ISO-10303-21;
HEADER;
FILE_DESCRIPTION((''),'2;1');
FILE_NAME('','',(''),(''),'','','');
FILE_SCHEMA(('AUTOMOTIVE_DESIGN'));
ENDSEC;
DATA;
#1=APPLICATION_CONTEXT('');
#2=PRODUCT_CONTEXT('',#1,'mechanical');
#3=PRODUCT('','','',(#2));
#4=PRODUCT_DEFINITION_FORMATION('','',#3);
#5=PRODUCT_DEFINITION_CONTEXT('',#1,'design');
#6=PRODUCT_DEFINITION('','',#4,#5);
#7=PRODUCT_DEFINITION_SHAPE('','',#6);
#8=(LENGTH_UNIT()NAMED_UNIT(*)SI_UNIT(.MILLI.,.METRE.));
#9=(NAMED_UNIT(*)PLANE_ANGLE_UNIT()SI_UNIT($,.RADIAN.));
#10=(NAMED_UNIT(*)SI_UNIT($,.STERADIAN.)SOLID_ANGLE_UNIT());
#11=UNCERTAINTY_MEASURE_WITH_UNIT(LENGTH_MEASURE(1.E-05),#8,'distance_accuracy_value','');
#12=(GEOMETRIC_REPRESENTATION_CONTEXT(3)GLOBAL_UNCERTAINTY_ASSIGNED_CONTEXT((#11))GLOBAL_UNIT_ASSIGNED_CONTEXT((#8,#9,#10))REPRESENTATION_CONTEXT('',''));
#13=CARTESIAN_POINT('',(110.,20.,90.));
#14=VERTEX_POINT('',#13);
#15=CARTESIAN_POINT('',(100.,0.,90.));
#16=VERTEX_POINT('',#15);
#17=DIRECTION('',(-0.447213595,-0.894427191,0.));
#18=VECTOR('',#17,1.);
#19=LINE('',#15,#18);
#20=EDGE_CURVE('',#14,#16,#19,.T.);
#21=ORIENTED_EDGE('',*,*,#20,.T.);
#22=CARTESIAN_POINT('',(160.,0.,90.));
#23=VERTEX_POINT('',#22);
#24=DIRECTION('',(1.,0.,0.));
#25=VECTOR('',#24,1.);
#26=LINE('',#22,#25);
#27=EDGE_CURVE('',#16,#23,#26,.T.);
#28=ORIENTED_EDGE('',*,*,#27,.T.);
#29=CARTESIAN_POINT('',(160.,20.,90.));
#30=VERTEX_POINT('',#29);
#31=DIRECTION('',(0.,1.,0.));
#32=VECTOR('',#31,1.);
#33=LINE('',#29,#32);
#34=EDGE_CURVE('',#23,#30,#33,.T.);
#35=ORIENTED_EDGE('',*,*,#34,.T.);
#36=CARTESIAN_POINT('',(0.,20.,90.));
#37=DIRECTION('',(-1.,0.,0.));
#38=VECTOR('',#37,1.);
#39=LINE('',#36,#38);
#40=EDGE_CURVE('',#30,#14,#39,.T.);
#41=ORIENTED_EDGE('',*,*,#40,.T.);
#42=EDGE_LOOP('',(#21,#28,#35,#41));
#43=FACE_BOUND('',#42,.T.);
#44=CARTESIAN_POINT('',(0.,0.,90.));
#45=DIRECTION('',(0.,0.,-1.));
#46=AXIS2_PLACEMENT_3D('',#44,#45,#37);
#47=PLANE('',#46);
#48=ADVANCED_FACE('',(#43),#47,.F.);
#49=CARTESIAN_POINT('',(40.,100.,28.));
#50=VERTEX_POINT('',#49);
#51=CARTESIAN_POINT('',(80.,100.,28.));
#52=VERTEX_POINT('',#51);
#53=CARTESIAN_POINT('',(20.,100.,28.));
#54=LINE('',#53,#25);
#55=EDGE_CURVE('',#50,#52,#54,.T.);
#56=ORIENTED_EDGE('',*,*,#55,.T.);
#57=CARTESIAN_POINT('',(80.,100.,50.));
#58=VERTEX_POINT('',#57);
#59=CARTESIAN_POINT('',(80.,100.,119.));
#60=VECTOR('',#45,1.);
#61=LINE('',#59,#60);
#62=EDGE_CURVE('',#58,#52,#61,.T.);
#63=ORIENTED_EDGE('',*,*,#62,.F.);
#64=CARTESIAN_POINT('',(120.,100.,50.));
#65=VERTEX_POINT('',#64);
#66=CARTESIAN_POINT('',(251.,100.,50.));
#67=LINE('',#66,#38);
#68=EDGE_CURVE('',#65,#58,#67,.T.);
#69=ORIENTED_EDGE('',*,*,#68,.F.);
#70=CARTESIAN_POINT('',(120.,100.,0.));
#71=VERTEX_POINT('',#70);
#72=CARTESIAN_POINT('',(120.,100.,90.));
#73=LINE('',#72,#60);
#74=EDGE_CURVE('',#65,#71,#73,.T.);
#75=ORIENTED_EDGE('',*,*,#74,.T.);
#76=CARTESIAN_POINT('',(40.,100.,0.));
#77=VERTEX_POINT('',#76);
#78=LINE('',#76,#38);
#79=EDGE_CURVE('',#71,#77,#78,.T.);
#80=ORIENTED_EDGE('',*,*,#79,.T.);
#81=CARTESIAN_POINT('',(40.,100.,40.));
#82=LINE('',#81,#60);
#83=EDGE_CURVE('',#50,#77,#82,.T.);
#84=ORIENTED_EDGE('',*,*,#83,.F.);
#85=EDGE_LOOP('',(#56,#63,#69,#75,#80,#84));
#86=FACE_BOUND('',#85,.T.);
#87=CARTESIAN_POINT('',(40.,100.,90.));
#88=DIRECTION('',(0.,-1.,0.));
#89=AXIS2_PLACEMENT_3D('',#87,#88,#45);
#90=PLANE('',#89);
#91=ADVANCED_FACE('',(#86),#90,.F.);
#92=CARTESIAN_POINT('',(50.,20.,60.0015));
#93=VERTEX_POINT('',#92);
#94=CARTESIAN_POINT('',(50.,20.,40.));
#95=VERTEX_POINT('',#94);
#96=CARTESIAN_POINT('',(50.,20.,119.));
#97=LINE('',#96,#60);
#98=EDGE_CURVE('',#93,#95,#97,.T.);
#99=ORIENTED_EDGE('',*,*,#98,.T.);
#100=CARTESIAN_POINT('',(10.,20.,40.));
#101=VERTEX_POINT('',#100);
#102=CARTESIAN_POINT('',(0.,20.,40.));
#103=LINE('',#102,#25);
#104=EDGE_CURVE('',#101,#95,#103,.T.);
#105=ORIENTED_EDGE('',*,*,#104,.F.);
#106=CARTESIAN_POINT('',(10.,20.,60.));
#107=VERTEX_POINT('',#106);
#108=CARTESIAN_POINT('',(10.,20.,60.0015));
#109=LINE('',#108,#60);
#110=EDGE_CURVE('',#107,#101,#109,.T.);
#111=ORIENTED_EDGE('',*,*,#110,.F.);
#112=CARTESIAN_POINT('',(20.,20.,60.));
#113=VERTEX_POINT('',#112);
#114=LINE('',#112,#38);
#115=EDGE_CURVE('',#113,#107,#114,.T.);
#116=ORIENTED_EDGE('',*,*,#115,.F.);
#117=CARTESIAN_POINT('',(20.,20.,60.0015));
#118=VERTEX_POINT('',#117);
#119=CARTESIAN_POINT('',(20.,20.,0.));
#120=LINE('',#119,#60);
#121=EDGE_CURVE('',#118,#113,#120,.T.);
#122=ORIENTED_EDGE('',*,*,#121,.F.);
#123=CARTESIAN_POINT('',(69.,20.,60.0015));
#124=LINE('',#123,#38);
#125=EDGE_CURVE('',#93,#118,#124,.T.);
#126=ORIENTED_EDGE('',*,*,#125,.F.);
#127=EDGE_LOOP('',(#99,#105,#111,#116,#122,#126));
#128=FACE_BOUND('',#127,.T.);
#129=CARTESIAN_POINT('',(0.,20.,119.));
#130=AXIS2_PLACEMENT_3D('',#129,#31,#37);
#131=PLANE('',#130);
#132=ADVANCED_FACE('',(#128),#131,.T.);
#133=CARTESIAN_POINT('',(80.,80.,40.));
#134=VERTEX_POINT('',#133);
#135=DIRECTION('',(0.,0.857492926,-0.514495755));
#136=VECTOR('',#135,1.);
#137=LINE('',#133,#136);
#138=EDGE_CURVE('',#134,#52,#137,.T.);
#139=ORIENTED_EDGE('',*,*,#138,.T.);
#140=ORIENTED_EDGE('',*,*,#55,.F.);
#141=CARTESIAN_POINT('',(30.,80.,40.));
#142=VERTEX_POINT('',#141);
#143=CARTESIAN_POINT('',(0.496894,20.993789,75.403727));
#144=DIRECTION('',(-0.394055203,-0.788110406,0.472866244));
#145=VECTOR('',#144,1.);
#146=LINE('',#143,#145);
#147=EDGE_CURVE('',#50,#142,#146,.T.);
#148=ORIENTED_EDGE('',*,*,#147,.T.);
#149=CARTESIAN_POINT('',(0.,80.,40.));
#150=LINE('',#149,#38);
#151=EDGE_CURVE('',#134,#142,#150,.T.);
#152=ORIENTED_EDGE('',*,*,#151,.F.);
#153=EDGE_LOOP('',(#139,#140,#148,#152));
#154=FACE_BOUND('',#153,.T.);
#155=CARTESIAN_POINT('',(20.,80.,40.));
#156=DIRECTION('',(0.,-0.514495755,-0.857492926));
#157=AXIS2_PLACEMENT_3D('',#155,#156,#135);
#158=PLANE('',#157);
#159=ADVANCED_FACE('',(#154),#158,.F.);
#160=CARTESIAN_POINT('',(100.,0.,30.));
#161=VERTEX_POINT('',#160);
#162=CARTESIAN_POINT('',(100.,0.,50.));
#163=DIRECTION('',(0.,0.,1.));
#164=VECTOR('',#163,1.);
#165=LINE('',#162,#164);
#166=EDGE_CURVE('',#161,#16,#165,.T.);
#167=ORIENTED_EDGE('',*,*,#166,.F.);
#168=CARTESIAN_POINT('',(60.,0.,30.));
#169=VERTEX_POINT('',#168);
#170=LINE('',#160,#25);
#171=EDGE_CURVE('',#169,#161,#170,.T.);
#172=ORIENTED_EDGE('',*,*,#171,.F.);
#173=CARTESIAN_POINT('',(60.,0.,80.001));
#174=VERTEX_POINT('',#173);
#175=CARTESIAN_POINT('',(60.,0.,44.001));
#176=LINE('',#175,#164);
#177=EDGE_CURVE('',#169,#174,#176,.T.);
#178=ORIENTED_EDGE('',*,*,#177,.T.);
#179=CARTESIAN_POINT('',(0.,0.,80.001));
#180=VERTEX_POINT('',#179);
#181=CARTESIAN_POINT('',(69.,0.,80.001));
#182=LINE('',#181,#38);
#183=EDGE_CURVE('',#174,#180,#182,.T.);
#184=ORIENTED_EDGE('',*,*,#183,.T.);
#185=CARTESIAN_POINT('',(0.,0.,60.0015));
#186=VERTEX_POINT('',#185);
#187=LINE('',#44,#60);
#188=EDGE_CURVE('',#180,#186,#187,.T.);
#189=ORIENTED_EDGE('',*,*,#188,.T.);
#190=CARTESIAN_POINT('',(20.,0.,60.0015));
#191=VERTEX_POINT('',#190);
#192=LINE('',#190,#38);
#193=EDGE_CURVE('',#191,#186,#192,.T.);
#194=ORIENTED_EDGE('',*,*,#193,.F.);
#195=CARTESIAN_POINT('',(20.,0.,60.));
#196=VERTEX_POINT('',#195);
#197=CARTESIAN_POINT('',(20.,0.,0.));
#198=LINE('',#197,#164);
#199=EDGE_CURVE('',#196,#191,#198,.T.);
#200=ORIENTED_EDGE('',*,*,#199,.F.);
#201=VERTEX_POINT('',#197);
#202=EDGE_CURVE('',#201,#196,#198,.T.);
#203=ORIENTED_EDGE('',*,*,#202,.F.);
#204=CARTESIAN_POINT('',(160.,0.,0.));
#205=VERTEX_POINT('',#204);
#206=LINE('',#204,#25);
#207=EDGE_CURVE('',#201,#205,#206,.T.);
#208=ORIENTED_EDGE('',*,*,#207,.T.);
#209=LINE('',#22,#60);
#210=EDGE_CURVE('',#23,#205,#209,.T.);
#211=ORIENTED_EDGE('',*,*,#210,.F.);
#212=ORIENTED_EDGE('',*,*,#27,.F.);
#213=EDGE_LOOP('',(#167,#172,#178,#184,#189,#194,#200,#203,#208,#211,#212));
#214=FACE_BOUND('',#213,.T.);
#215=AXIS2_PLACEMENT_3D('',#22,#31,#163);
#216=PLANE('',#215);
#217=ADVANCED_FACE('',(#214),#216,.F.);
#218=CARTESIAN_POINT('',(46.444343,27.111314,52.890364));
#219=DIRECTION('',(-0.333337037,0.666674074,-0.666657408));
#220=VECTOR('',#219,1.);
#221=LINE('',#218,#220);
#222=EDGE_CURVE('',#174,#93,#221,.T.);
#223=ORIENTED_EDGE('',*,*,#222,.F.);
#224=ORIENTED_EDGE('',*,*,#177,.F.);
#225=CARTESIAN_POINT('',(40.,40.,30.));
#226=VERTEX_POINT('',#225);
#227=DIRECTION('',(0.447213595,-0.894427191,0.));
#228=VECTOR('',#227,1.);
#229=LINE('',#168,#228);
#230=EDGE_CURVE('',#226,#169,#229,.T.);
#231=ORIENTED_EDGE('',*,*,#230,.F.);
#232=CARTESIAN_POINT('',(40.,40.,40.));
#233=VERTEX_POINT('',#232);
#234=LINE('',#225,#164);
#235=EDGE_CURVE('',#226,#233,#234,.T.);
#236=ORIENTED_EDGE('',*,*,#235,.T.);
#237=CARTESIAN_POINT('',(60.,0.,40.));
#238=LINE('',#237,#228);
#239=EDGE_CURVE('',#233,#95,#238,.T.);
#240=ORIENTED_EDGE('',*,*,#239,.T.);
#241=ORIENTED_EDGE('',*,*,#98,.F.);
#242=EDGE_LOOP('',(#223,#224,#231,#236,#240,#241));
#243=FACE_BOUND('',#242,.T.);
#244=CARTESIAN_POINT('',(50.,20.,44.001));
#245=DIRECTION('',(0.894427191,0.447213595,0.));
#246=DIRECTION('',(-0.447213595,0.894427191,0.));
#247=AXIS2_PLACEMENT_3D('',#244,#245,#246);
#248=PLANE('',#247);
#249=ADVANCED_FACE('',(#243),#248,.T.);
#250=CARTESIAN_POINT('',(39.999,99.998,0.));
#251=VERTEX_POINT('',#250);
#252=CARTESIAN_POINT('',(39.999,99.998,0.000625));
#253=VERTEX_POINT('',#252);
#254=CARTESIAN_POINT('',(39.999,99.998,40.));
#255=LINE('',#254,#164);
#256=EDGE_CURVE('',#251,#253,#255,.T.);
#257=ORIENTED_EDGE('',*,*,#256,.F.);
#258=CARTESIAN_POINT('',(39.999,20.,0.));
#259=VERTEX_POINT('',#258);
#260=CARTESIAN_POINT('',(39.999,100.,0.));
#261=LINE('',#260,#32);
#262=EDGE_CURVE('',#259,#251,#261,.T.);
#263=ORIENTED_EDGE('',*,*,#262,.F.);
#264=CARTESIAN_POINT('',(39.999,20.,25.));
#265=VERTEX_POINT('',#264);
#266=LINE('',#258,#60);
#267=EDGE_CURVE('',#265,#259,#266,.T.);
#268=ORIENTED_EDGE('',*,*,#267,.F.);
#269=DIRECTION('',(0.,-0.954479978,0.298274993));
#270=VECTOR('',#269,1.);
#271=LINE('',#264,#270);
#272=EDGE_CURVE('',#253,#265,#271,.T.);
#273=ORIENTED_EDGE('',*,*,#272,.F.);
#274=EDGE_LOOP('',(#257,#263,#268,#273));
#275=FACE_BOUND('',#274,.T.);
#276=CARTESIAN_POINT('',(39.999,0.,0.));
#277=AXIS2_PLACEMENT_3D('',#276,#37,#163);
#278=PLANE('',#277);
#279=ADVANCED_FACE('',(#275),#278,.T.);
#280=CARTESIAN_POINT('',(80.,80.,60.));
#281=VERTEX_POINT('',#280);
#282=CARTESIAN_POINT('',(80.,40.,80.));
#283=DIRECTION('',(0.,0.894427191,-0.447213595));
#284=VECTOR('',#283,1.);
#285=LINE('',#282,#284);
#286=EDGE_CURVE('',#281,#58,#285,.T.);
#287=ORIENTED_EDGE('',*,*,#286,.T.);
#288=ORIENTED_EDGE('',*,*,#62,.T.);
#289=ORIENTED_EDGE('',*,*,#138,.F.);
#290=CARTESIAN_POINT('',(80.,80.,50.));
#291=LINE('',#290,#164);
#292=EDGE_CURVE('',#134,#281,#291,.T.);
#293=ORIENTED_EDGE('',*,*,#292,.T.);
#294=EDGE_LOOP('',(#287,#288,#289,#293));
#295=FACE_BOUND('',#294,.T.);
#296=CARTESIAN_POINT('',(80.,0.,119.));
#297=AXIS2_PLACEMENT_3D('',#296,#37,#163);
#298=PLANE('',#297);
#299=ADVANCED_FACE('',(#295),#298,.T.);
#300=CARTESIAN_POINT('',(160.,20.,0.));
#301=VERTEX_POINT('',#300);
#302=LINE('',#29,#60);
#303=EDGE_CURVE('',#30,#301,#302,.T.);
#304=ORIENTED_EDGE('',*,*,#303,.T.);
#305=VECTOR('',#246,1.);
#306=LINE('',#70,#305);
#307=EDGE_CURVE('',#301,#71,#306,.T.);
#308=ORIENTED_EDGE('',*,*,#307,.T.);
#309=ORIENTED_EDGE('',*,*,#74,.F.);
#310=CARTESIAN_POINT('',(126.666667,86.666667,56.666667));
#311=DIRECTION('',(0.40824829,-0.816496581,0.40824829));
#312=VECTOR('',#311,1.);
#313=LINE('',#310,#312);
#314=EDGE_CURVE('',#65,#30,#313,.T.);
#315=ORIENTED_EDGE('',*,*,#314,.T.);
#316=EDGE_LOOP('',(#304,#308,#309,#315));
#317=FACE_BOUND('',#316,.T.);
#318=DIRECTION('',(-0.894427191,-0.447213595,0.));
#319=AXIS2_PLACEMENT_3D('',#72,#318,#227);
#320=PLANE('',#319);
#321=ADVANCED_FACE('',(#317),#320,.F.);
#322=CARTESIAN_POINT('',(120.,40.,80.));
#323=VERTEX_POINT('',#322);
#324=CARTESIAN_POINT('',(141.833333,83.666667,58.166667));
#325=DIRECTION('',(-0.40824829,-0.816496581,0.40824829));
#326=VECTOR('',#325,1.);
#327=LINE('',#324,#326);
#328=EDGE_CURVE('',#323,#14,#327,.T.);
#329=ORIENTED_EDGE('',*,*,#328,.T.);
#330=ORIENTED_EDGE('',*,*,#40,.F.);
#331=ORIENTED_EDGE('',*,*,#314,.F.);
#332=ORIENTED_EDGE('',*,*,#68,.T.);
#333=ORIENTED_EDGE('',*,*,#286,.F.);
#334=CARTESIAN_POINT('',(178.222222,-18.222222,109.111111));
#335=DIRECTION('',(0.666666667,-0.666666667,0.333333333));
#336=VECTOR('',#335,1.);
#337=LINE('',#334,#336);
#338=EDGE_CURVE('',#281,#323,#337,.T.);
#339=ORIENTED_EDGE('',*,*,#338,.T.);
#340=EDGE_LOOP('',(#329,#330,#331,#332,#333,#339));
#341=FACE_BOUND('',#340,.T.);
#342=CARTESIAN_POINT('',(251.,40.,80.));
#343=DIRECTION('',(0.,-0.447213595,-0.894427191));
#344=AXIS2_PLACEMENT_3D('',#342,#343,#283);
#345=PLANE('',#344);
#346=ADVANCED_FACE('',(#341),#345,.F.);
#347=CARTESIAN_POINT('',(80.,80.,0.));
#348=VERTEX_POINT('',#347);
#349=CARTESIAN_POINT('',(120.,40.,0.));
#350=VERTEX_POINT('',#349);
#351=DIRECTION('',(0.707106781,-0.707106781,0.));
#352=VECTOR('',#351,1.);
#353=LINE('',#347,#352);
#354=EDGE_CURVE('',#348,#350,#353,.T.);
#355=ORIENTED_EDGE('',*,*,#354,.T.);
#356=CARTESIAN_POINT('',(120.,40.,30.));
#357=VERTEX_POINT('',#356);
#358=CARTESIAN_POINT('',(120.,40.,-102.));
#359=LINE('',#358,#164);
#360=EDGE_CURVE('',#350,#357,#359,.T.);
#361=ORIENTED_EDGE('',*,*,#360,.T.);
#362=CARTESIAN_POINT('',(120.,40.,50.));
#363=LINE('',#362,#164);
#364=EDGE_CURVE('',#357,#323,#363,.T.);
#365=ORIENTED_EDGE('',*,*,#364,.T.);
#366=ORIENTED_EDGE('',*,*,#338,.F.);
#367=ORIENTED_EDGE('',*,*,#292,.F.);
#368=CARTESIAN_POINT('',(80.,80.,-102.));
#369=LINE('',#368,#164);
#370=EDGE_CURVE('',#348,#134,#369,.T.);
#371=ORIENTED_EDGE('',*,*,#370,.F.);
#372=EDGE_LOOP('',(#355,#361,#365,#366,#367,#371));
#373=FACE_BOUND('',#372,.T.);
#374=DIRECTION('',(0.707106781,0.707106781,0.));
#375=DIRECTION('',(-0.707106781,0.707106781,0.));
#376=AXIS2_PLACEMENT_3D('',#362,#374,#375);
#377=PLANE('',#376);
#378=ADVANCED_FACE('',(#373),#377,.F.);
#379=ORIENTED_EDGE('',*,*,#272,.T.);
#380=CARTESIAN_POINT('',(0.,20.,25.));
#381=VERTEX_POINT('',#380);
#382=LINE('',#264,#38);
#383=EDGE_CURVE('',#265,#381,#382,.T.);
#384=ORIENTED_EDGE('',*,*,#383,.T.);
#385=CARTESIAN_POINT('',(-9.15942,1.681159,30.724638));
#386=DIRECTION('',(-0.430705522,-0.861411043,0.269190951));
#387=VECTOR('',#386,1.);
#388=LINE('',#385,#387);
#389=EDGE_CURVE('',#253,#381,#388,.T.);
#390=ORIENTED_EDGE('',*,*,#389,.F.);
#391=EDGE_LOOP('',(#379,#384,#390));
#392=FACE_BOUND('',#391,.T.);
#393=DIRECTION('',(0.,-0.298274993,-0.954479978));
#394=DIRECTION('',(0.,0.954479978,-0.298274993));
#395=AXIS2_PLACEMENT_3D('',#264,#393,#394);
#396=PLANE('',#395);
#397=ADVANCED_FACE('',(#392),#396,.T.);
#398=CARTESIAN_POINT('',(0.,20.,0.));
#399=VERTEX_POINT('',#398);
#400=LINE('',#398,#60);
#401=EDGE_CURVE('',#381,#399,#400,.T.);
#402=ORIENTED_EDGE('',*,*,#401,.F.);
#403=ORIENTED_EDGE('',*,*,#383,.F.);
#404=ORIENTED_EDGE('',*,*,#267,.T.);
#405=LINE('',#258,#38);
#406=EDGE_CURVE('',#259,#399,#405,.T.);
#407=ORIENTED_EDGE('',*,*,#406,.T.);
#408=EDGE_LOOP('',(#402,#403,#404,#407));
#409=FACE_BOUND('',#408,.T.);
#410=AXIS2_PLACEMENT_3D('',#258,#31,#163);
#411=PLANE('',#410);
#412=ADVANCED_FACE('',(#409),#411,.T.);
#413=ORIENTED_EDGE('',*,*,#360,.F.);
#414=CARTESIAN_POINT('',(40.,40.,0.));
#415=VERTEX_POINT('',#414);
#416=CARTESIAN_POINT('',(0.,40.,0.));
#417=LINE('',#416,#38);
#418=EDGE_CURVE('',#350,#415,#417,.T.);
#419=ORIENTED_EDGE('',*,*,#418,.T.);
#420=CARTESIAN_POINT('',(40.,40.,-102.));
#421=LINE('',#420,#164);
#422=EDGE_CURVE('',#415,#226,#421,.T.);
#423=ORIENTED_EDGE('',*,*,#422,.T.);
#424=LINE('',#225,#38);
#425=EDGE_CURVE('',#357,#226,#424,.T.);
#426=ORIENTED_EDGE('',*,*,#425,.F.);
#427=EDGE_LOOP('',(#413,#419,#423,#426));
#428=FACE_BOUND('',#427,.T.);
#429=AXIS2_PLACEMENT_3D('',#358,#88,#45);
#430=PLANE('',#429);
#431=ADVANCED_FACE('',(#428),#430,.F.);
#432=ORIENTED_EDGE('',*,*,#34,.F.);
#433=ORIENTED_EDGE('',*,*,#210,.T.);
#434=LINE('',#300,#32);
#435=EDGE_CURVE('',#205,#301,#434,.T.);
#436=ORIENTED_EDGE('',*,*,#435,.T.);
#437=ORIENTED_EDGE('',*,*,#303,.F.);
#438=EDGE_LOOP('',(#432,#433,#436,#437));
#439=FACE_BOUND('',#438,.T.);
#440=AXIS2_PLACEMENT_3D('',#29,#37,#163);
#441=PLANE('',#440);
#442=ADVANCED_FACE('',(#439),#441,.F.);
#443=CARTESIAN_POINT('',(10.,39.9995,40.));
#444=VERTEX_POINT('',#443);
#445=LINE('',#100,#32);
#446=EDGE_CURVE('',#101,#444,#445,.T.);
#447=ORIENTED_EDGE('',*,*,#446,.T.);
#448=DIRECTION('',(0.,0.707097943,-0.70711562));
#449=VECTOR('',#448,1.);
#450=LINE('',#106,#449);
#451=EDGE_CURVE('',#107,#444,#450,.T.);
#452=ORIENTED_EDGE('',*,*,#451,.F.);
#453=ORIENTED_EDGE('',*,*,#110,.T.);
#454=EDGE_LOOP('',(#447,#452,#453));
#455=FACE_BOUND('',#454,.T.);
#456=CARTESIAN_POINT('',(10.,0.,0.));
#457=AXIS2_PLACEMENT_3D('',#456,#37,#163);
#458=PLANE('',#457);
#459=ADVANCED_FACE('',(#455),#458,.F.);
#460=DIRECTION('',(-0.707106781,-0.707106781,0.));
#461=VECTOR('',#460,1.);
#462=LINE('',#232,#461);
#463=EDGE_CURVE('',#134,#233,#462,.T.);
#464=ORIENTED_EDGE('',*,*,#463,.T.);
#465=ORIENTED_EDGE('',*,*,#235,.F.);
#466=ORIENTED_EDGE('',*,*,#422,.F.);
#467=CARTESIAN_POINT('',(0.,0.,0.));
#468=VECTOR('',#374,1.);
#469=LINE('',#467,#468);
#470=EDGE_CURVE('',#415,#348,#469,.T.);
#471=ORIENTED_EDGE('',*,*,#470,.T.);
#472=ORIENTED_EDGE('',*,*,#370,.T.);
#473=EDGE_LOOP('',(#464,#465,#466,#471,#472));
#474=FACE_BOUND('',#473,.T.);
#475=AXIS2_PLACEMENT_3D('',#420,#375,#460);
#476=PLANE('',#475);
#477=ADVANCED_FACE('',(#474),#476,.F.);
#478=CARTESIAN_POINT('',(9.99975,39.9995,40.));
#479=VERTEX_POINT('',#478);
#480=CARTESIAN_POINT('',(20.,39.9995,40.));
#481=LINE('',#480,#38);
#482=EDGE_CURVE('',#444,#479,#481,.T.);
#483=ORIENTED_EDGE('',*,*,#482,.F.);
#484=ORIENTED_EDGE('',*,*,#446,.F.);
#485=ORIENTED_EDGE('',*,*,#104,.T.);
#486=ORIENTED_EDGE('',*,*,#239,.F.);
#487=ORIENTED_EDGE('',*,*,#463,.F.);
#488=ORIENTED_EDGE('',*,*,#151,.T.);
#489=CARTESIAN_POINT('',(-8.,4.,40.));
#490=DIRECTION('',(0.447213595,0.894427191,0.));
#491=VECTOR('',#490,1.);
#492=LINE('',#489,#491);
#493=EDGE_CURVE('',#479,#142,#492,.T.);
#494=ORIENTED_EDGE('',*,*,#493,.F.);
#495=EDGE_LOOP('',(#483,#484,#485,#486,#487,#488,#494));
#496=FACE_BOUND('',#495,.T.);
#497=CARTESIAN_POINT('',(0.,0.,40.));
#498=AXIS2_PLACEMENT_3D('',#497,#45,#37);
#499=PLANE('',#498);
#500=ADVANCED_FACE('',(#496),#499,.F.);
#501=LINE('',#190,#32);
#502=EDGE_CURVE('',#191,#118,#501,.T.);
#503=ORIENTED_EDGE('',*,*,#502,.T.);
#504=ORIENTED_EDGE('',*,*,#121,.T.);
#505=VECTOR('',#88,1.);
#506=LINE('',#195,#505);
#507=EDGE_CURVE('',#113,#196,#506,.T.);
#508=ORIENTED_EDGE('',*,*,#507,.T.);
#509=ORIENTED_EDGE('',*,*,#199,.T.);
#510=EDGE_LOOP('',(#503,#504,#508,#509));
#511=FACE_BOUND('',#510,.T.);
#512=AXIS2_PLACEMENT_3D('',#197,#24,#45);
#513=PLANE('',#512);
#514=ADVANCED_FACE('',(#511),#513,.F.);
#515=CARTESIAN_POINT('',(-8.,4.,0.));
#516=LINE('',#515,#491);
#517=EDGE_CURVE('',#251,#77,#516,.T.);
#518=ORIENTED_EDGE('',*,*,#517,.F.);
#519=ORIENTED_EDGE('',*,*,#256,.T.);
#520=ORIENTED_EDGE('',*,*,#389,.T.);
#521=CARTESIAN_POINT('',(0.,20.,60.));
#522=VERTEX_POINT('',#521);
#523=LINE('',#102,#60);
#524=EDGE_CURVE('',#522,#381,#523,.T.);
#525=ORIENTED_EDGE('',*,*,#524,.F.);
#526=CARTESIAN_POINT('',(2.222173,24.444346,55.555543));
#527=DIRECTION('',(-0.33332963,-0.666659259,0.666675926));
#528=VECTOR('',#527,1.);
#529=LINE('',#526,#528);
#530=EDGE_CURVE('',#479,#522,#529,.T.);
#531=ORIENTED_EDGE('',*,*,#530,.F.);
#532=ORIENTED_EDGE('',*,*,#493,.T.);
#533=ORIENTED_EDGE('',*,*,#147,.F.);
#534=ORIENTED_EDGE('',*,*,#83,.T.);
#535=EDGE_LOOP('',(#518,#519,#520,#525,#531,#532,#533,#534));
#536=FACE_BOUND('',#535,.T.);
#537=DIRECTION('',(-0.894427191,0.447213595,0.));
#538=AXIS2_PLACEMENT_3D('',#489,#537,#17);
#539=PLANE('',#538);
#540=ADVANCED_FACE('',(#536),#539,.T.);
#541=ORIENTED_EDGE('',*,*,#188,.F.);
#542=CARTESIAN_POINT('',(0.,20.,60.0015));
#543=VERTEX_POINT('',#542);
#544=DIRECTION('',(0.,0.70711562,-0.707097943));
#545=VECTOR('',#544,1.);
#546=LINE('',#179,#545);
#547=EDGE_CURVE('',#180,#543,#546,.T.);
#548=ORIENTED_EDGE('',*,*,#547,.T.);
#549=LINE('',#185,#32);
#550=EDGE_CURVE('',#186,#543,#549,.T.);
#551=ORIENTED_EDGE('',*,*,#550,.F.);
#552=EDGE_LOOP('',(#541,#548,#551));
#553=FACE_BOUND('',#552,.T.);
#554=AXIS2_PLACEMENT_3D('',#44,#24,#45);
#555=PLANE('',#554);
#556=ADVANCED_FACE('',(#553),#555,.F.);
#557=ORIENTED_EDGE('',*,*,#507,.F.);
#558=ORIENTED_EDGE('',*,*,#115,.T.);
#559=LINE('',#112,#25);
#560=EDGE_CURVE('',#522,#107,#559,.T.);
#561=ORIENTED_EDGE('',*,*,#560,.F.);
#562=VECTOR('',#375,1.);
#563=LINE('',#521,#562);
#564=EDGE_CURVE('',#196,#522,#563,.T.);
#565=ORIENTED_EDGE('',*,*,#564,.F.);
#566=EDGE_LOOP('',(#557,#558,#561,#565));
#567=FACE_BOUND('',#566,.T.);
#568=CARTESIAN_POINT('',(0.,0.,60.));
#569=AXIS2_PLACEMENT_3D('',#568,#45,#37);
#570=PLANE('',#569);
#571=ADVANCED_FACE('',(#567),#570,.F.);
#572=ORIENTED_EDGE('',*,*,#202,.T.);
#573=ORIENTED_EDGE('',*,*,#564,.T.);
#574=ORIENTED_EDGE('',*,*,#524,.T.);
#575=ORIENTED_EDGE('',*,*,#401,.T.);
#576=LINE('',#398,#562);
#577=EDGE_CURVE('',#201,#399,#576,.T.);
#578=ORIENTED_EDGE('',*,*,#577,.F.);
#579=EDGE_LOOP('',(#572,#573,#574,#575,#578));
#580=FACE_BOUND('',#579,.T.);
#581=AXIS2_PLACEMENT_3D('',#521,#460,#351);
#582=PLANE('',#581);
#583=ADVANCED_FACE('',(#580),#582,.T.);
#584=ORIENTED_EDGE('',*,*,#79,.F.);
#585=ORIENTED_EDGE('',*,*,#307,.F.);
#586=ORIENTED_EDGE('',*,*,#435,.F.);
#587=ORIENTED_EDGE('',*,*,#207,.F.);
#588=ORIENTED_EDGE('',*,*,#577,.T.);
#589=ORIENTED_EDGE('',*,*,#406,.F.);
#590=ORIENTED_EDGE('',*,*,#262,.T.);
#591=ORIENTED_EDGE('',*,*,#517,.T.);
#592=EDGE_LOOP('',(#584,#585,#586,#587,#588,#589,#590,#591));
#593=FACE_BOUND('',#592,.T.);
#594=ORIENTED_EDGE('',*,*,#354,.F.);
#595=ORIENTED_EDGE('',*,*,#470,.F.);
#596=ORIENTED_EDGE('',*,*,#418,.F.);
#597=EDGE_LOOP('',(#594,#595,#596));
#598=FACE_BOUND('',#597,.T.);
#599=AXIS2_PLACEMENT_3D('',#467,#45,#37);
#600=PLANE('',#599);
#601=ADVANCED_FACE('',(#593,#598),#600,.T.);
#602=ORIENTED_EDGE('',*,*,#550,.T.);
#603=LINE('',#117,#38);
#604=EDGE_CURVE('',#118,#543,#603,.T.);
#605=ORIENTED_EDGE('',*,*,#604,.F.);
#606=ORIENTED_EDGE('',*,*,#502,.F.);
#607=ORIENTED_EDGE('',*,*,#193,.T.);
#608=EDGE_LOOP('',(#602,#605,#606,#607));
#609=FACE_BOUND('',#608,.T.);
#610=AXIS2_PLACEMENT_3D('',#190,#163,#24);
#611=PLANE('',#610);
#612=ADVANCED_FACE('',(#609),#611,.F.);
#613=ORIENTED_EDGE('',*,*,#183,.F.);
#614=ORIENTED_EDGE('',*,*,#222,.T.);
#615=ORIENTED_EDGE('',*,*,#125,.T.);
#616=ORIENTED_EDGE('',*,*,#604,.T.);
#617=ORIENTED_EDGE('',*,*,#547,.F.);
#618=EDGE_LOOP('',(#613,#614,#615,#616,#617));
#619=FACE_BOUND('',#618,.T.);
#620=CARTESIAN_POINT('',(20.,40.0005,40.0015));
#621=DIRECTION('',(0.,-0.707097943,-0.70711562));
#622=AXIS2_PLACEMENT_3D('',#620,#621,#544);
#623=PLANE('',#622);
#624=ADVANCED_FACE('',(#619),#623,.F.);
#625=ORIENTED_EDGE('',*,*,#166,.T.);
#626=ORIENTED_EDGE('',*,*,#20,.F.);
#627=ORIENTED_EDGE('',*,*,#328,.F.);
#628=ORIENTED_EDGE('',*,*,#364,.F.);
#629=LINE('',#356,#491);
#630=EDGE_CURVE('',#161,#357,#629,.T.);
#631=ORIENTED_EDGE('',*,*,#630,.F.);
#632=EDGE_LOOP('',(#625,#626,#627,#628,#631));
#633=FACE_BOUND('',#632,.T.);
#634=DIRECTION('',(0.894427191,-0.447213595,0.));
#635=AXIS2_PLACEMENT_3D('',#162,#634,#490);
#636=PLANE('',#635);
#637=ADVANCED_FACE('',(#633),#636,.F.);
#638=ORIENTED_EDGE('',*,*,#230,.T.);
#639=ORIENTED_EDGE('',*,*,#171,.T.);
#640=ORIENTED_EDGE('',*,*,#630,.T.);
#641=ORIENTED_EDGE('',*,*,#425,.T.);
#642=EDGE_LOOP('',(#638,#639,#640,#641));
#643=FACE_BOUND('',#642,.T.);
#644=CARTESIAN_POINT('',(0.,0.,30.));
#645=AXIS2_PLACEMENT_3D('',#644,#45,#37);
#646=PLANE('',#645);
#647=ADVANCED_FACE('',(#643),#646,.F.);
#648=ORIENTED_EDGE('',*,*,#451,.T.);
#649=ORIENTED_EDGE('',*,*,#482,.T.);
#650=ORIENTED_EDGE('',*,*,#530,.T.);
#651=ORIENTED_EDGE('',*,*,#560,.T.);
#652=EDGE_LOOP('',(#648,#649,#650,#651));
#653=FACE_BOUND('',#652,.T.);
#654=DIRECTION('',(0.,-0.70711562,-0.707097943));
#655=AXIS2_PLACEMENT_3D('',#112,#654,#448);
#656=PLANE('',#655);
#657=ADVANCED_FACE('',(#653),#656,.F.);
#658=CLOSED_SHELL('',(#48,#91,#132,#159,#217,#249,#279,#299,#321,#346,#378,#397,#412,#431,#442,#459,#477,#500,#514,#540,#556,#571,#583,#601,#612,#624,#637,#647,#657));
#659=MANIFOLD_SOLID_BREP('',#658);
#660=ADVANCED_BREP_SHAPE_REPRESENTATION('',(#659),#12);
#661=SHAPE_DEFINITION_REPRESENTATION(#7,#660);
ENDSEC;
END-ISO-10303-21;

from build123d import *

# Parameters (mm, degrees)
BOSS_EXTRUDE1_DEPTH  = 90
CUT_EXTRUDE1_DEPTH   = 251
CUT_EXTRUDE7_DEPTH   = 40
CUT_EXTRUDE8_DEPTH   = 20
SKETCH9_W            = 70
SKETCH9_H            = 10
CUT_EXTRUDE9_DEPTH   = 190
SKETCH10_W           = 39.999
SKETCH10_H           = 29.999
CUT_EXTRUDE13_DEPTH  = 190
CUT_EXTRUDE14_DEPTH  = 190
CUT_EXTRUDE15_DEPTH  = 190
BOSS_EXTRUDE2_DEPTH  = 34
SKETCH14_W           = 39.999
SKETCH14_H           = 20
BOSS_EXTRUDE3_DEPTH  = 34
BOSS_EXTRUDE4_DEPTH  = 34
CUT_EXTRUDE21_DEPTH  = 77
SKETCH21_W           = 43.001
SKETCH21_H           = 20
CUT_EXTRUDE26_DEPTH  = 77
SKETCH22_W           = 28.284271247
SKETCH22_H           = 44.001
CUT_EXTRUDE27_DEPTH  = 77
BOSS_EXTRUDE5_DEPTH  = 77
BOSS_EXTRUDE7_DEPTH  = 50
BOSS_EXTRUDE8_DEPTH  = 50
BOSS_EXTRUDE12_DEPTH = 50
SKETCH32_W           = 44.001
SKETCH32_H           = 44.77461291
CUT_EXTRUDE29_DEPTH  = 2
CUT_EXTRUDE30_DEPTH  = 26
CUT_EXTRUDE33_DEPTH  = 26
CUT_EXTRUDE34_DEPTH  = 26
CUT_EXTRUDE38_DEPTH  = 5
SKETCH39_W           = 17.510737787
SKETCH39_H           = 5.1178381
BOSS_EXTRUDE13_DEPTH = 5
BOSS_EXTRUDE14_DEPTH = 5
SKETCH41_W           = 36.425905646
SKETCH41_H           = 30.361438292
BOSS_EXTRUDE17_DEPTH = 5
SKETCH43_W           = 4
SKETCH43_H           = 20
CUT_EXTRUDE39_DEPTH  = 64
SKETCH44_W           = 50
SKETCH44_H           = 4
CUT_EXTRUDE40_DEPTH  = 64
SKETCH45_W           = 120
SKETCH45_H           = 89.443166314
CUT_EXTRUDE43_DEPTH  = 64
SKETCH47_W           = 22.113315132
SKETCH47_H           = 22.285790595
BOSS_EXTRUDE19_DEPTH = 2
SKETCH48_W           = 120
SKETCH48_H           = 89.4427191
CUT_EXTRUDE44_DEPTH  = 5
CUT_EXTRUDE47_DEPTH  = 5
BOSS_EXTRUDE24_DEPTH = 30
BOSS_EXTRUDE26_DEPTH = 30
SKETCH56_W           = 32.299156512
SKETCH56_H           = 27.21956411
BOSS_EXTRUDE27_DEPTH = 30
SKETCH57_W           = 40.001
SKETCH57_H           = 25.586983612
BOSS_EXTRUDE28_DEPTH = 30
SKETCH61_W           = 48.915417123
SKETCH61_H           = 22.361126989
CUT_EXTRUDE55_DEPTH  = 20
BOSS_EXTRUDE30_DEPTH = 10
CUT_EXTRUDE56_DEPTH  = 79
CUT_EXTRUDE57_DEPTH  = 79
CUT_EXTRUDE58_DEPTH  = 79
CUT_EXTRUDE59_DEPTH  = 10
CUT_EXTRUDE64_DEPTH  = 20
BOSS_EXTRUDE32_DEPTH = 20
CUT_EXTRUDE65_DEPTH  = 49
SKETCH73_W           = 58.518906985
SKETCH73_H           = 24.994806596
CUT_EXTRUDE66_DEPTH  = 49
SKETCH75_W           = 20
SKETCH75_H           = 56.568542508
BOSS_EXTRUDE33_DEPTH = 2
CUT_EXTRUDE69_DEPTH  = 29
CUT_EXTRUDE70_DEPTH  = 29
CUT_EXTRUDE72_DEPTH  = 2
SKETCH81_W           = 8.58676876
SKETCH81_H           = 2.828391771
CUT_EXTRUDE73_DEPTH  = 2
SKETCH82_W           = 29.228045829
SKETCH82_H           = 21.594351677
CUT_EXTRUDE76_DEPTH  = 40
CUT_EXTRUDE77_DEPTH  = 20
CUT_EXTRUDE82_DEPTH  = 40
CUT_EXTRUDE84_DEPTH  = 39.999
CUT_EXTRUDE85_DEPTH  = 0.0001
BOSS_EXTRUDE34_DEPTH = 2
CUT_EXTRUDE86_DEPTH  = 2
CUT_EXTRUDE88_DEPTH  = 56
BOSS_EXTRUDE40_DEPTH = 20
CUT_EXTRUDE89_DEPTH  = 20
BOSS_EXTRUDE41_DEPTH = 50
BOSS_EXTRUDE42_DEPTH = 40
BOSS_EXTRUDE43_DEPTH = 20
SKETCH102_W          = 60.001499975
SKETCH102_H          = 20
CUT_EXTRUDE90_DEPTH  = 20
BOSS_EXTRUDE44_DEPTH = 60
CUT_EXTRUDE91_DEPTH  = 60
CUT_EXTRUDE92_DEPTH  = 60
CUT_EXTRUDE93_DEPTH  = 10
CUT_EXTRUDE96_DEPTH  = 20
CUT_EXTRUDE98_DEPTH  = 20
BOSS_EXTRUDE45_DEPTH = 20
CUT_EXTRUDE99_DEPTH  = 20
CUT_EXTRUDE100_DEPTH = 10
CUT_EXTRUDE101_DEPTH = 142
CUT_EXTRUDE106_DEPTH = 39.999
CUT_EXTRUDE107_DEPTH = 10


with BuildPart() as part:
    # Sketch1 → Boss-Extrude1 (new body)
    with BuildSketch(Plane.XY):
        Polygon((0, 0), (0, 20), (40, 100), (120, 100), (160, 20), (160, 0), align=None)
    extrude(amount=BOSS_EXTRUDE1_DEPTH)

    # Sketch2 → Cut-Extrude1 (cut)
    with BuildSketch(Plane(origin=(0, 0, 0), x_dir=(0, 0, -1), z_dir=(1, 0, 0))):
        Polygon((-90, 100), (-50, 100), (-90, 20), align=None)
    extrude(amount=CUT_EXTRUDE1_DEPTH, mode=Mode.SUBTRACT)

    # Sketch7 → Cut-Extrude7 (cut)
    with BuildSketch(Plane.XY.offset(90)):
        Polygon((60, 0), (100, 0), (120, 40), (80, 80), (40, 40), align=None)
    extrude(amount=-CUT_EXTRUDE7_DEPTH, mode=Mode.SUBTRACT)

    # Sketch8 → Cut-Extrude8 (cut)
    with BuildSketch(Plane.XY.offset(50)):
        Polygon((40, 40), (120, 40), (80, 80), align=None)
    extrude(amount=-CUT_EXTRUDE8_DEPTH, mode=Mode.SUBTRACT)

    # Sketch9 → Cut-Extrude9 (cut)
    with BuildSketch(Plane(origin=(0, 0, 0), x_dir=(1, 0, 0), z_dir=(0, 1, 0))):
        with Locations((75, -85)):
            Rectangle(SKETCH9_W, SKETCH9_H)
    extrude(amount=CUT_EXTRUDE9_DEPTH, mode=Mode.SUBTRACT)

    # Sketch10 → Cut-Extrude13 (cut)
    with BuildSketch(Plane(origin=(0, 0, 0), x_dir=(-1, 0, 0), z_dir=(0, -1, 0))):
        with Locations((-19.9995, -75.0005)):
            Rectangle(SKETCH10_W, SKETCH10_H)
    extrude(amount=-CUT_EXTRUDE13_DEPTH, mode=Mode.SUBTRACT)

    # Sketch11 → Cut-Extrude14 (cut)
    with BuildSketch(Plane(origin=(40, 0, 0), x_dir=(0, 0, -1), z_dir=(1, 0, 0))):
        Polygon((-80, 40), (-80, 0), (-90, 0), (-90, 20), align=None)
    extrude(amount=-CUT_EXTRUDE14_DEPTH, mode=Mode.SUBTRACT)

    # Sketch12 → Cut-Extrude15 (cut)
    with BuildSketch(Plane(origin=(0, 0, 0), x_dir=(-1, 0, 0), z_dir=(0, -1, 0))):
        Polygon((-100, -80), (-100, -70), (-110, -75), (-110, -80), align=None)
        Polygon((-39.999, -80), (-60, -80), (-60, -70), align=None)
    extrude(amount=-CUT_EXTRUDE15_DEPTH, mode=Mode.SUBTRACT)

    # Sketch13 → Boss-Extrude2 (add)
    with BuildSketch(Plane.XY.offset(90)):
        Polygon((110, 20), (110, 0), (100, 0), align=None)
    extrude(amount=-BOSS_EXTRUDE2_DEPTH)

    # Sketch14 → Boss-Extrude3 (add)
    with BuildSketch(Plane.XY.offset(60.001)):
        with Locations((19.9995, 10)):
            Rectangle(SKETCH14_W, SKETCH14_H)
    extrude(amount=BOSS_EXTRUDE3_DEPTH)

    # Sketch15 → Boss-Extrude4 (add)
    with BuildSketch(Plane.XY.offset(94.001)):
        Polygon((39.999, 0), (60, 0), (39.999, 20), align=None)
    extrude(amount=-BOSS_EXTRUDE4_DEPTH)

    # Sketch17 → Cut-Extrude21 (cut)
    with BuildSketch(Plane.XY.offset(50)):
        Polygon((60, 0), (40, 40), (40, 20), align=None)
    extrude(amount=CUT_EXTRUDE21_DEPTH, mode=Mode.SUBTRACT)

    # Sketch21 → Cut-Extrude26 (cut)
    with BuildSketch(Plane(origin=(40, 0, 0), x_dir=(0, 0, -1), z_dir=(1, 0, 0))):
        with Locations((-71.5005, 30)):
            Rectangle(SKETCH21_W, SKETCH21_H)
    extrude(amount=-CUT_EXTRUDE26_DEPTH, mode=Mode.SUBTRACT)

    # Sketch22 → Cut-Extrude27 (cut)
    with BuildSketch(Plane(origin=(30, 30, 0), x_dir=(0.707106781, -0.707106781, 0), z_dir=(0.707106781, 0.707106781, 0))):
        with Locations((28.284271248, -72.0005)):
            Rectangle(SKETCH22_W, SKETCH22_H)
    extrude(amount=-CUT_EXTRUDE27_DEPTH, mode=Mode.SUBTRACT)

    # Sketch23 → Boss-Extrude5 (add)
    with BuildSketch(Plane.XY.offset(94.001)):
        Polygon((39.999, 19.999), (39.999, 0), (49.999, 0), (39.999333333, 19.999333333), align=None)
        Polygon((39.999, 19.999), (20, 0), (39.999, 0), align=None)
    extrude(amount=-BOSS_EXTRUDE5_DEPTH)

    # Sketch26 → Boss-Extrude7 (add)
    with BuildSketch(Plane(origin=(0, 44.338879347, 80.614312123), x_dir=(-1, 0, 0), z_dir=(0, -0.481927159, -0.876211284))):
        Polygon((-40, 63.524770438), (-39.999, -27.777409169), (0, -27.777409169), align=None)
    extrude(amount=BOSS_EXTRUDE7_DEPTH)

    # Sketch28 → Boss-Extrude8 (add)
    with BuildSketch(Plane.XY.offset(94.001)):
        Polygon((0, 0), (60, 0), (50, 20), (0, 20), align=None)
    extrude(amount=-BOSS_EXTRUDE8_DEPTH)

    # Sketch31 → Boss-Extrude12 (add)
    with BuildSketch(Plane.XY.offset(94.001)):
        Polygon((50, 20), (40.001, 40), (39.999, 20), align=None)
    extrude(amount=-BOSS_EXTRUDE12_DEPTH)

    # Sketch32 → Cut-Extrude29 (cut)
    with BuildSketch(Plane(origin=(48, 24, 0), x_dir=(0, 0, -1), z_dir=(0.894427191, 0.447213595, 0))):
        with Locations((-72.0005, -4.445509275)):
            Rectangle(SKETCH32_W, SKETCH32_H)
    extrude(amount=CUT_EXTRUDE29_DEPTH, mode=Mode.SUBTRACT)

    # Sketch33 → Cut-Extrude30 (cut)
    with BuildSketch(Plane.XZ):
        Polygon((0, 57.638190064), (2.048178967, 47.937387746), (39.999051204, 47.937387746), (39.999, 57.638190064), align=None)
    extrude(amount=CUT_EXTRUDE30_DEPTH, mode=Mode.SUBTRACT)

    # Sketch35 → Cut-Extrude33 (cut)
    with BuildSketch(Plane(origin=(11.650101548, 0, 2.459744274), x_dir=(0.206580732, 0, -0.978429559), z_dir=(0.978429559, 0, 0.206580732))):
        Polygon((-48.782961552, -4.096357934), (-56.394908865, 0), (-46.480242824, 0), align=None)
    extrude(amount=-CUT_EXTRUDE33_DEPTH, mode=Mode.SUBTRACT)

    # Sketch36 → Cut-Extrude34 (cut)
    with BuildSketch(Plane(origin=(2.063610836, 42.293706667, 82.523802497), x_dir=(0.999752475, -0.01014732, -0.019799527), z_dir=(0.022248357, 0.455980099, 0.889711841))):
        Polygon((117.965588634, 66.188562504), (37.965588634, 66.188562504), (-2.064121759, -25.074555041), (157.975492098, -23.249726974), align=None)
    extrude(amount=CUT_EXTRUDE34_DEPTH, mode=Mode.SUBTRACT)

    # Sketch38 → Cut-Extrude38 (cut)
    with BuildSketch(Plane(origin=(0, -24.338879347, 13.386687877), x_dir=(-1, 0, 0), z_dir=(0, -0.876211284, 0.481927159))):
        Polygon((0, -42.003280055), (-1.572481647, -42.003280055), (0, -50.503232507), align=None)
    extrude(amount=-CUT_EXTRUDE38_DEPTH, mode=Mode.SUBTRACT)

    # Sketch39 → Boss-Extrude13 (add)
    with BuildSketch(Plane.ZY):
        with Locations((54.561477416, 2.55891905)):
            Rectangle(SKETCH39_W, SKETCH39_H)
    extrude(amount=-BOSS_EXTRUDE13_DEPTH)

    # Sketch40 → Boss-Extrude14 (add)
    with BuildSketch(Plane(origin=(-8, 4, 0), x_dir=(0, 0, 1), z_dir=(-0.894427191, 0.447213595, 0))):
        Polygon((60.001, 84.968347077), (50, 17.88854382), (94.001, 17.88854382), align=None)
    extrude(amount=-BOSS_EXTRUDE14_DEPTH)

    # Sketch41 → Boss-Extrude17 (add)
    with BuildSketch(Plane(origin=(-8, 4, 0), x_dir=(0, 0, 1), z_dir=(-0.894427191, 0.447213595, 0))):
        with Locations((48.733378767, 33.069262966)):
            Rectangle(SKETCH41_W, SKETCH41_H)
    extrude(amount=-BOSS_EXTRUDE17_DEPTH)

    # Sketch43 → Cut-Extrude39 (cut)
    with BuildSketch(Plane.ZY):
        with Locations((92.001, 10)):
            Rectangle(SKETCH43_W, SKETCH43_H)
    extrude(amount=-CUT_EXTRUDE39_DEPTH, mode=Mode.SUBTRACT)

    # Sketch44 → Cut-Extrude40 (cut)
    with BuildSketch(Plane.XZ.offset(-20)):
        with Locations((25, 92.001)):
            Rectangle(SKETCH44_W, SKETCH44_H)
    extrude(amount=-CUT_EXTRUDE40_DEPTH, mode=Mode.SUBTRACT)

    # Sketch45 → Cut-Extrude43 (cut)
    with BuildSketch(Plane(origin=(0, 40, 80), x_dir=(1, 0, 0), z_dir=(0, 0.447213595, 0.894427191))):
        with Locations((60, 22.360456168)):
            Rectangle(SKETCH45_W, SKETCH45_H)
    extrude(amount=CUT_EXTRUDE43_DEPTH, mode=Mode.SUBTRACT)

    # Sketch47 → Boss-Extrude19 (add)
    with BuildSketch(Plane(origin=(0, 40, 80), x_dir=(1, 0, 0), z_dir=(0, 0.447213595, 0.894427191))):
        with Locations((51.032841939, -11.089641938)):
            Rectangle(SKETCH47_W, SKETCH47_H)
    extrude(amount=BOSS_EXTRUDE19_DEPTH)

    # Sketch48 → Cut-Extrude44 (cut)
    with BuildSketch(Plane(origin=(0, 40, 80), x_dir=(1, 0, 0), z_dir=(0, 0.447213595, 0.894427191))):
        with Locations((60, 22.360679775)):
            Rectangle(SKETCH48_W, SKETCH48_H)
    extrude(amount=CUT_EXTRUDE44_DEPTH, mode=Mode.SUBTRACT)

    # Sketch49 → Cut-Extrude47 (cut)
    with BuildSketch(Plane(origin=(0, 40, 80), x_dir=(1, 0, 0), z_dir=(0, 0.447213595, 0.894427191))):
        Polygon((40.0009998, -0.002235621), (39.999024063, -22.091645582), (50.0002, -22.361126989), align=None)
    extrude(amount=-CUT_EXTRUDE47_DEPTH, mode=Mode.SUBTRACT)

    # Sketch52 → Boss-Extrude24 (add)
    with BuildSketch(Plane.XY.offset(50)):
        Polygon((40.119078133, 40.119078133), (39.976184373, 40.047631253), (39.99942419, 40), align=None)
    extrude(amount=BOSS_EXTRUDE24_DEPTH)

    # Sketch53 → Boss-Extrude26 (add)
    with BuildSketch(Plane(origin=(0, 40, 80), x_dir=(1, 0, 0), z_dir=(0, 0.447213595, 0.894427191))):
        Polygon((39.999265842, 0.000297206), (39.999024063, -22.091645582), (50.0002, -22.361126989), align=None)
    extrude(amount=-BOSS_EXTRUDE26_DEPTH)

    # Sketch56 → Boss-Extrude27 (add)
    with BuildSketch(Plane(origin=(-8, 4, 0), x_dir=(0, 0, 1), z_dir=(-0.894427191, 0.447213595, 0))):
        with Locations((56.525769836, 33.806547561)):
            Rectangle(SKETCH56_W, SKETCH56_H)
    extrude(amount=-BOSS_EXTRUDE27_DEPTH)

    # Sketch57 → Boss-Extrude28 (add)
    with BuildSketch(Plane(origin=(48, 24, 0), x_dir=(0, 0, -1), z_dir=(0.894427191, 0.447213595, 0))):
        with Locations((-70.0005, 5.095479818)):
            Rectangle(SKETCH57_W, SKETCH57_H)
    extrude(amount=-BOSS_EXTRUDE28_DEPTH)

    # Sketch61 → Cut-Extrude55 (cut)
    with BuildSketch(Plane(origin=(0, 40, 80), x_dir=(1, 0, 0), z_dir=(0, 0.447213595, 0.894427191))):
        with Locations((34.457708561, -11.180563495)):
            Rectangle(SKETCH61_W, SKETCH61_H)
    extrude(amount=CUT_EXTRUDE55_DEPTH, mode=Mode.SUBTRACT)

    # Sketch62 → Boss-Extrude30 (add)
    with BuildSketch(Plane.XY.offset(30)):
        Polygon((80, 80), (40, 40), (120, 40), align=None)
    extrude(amount=BOSS_EXTRUDE30_DEPTH)

    # Sketch63 → Cut-Extrude56 (cut)
    with BuildSketch(Plane.XY.offset(40)):
        Polygon((80, 100), (40, 100), (0, 20), (40, 40), (80, 80), align=None)
        Polygon((0, 20), (50, 20), (40, 40), align=None)
    extrude(amount=CUT_EXTRUDE56_DEPTH, mode=Mode.SUBTRACT)

    # Sketch64 → Cut-Extrude57 (cut)
    with BuildSketch(Plane(origin=(0, 0, 0), x_dir=(0, 0, -1), z_dir=(1, 0, 0))):
        Polygon((-60, 80), (-40, 80), (-28, 100), (-50, 100), align=None)
    extrude(amount=CUT_EXTRUDE57_DEPTH, mode=Mode.SUBTRACT)

    # Sketch65 → Cut-Extrude58 (cut)
    with BuildSketch(Plane.ZY.offset(-80)):
        Polygon((40, 100), (28, 100), (40, 80), align=None)
    extrude(amount=CUT_EXTRUDE58_DEPTH, mode=Mode.SUBTRACT)

    # Sketch66 → Cut-Extrude59 (cut)
    with BuildSketch(Plane.XY.offset(50)):
        Polygon((40, 40), (120, 40), (100, 0), (60, 0), align=None)
    extrude(amount=-CUT_EXTRUDE59_DEPTH, mode=Mode.SUBTRACT)

    # Sketch67 → Cut-Extrude64 (cut)
    with BuildSketch(Plane(origin=(0, 0, 0), x_dir=(0, 0, -1), z_dir=(1, 0, 0))):
        Polygon((-80.001, 0), (-90.001, 0), (-90.001, 20), (-80, 40.002), (-40, 40.002), align=None)
    extrude(amount=CUT_EXTRUDE64_DEPTH, mode=Mode.SUBTRACT)

    # Sketch71 → Boss-Extrude32 (add)
    with BuildSketch(Plane.ZY):
        Polygon((60.001499975, 20), (40, 40), (40, 20), align=None)
    extrude(amount=-BOSS_EXTRUDE32_DEPTH)

    # Sketch72 → Cut-Extrude65 (cut)
    with BuildSketch(Plane.ZY.offset(-20)):
        Polygon((60.001499975, 20), (80.001, 0), (90.001, 0), (90, 20), align=None)
    extrude(amount=-CUT_EXTRUDE65_DEPTH, mode=Mode.SUBTRACT)

    # Sketch73 → Cut-Extrude66 (cut)
    with BuildSketch(Plane(origin=(0, 0.00450005, 90.000999775), x_dir=(-1, 0, 0), z_dir=(0, -5e-05, -0.999999999))):
        with Locations((-49.259453493, 7.498096677)):
            Rectangle(SKETCH73_W, SKETCH73_H)
    extrude(amount=-CUT_EXTRUDE66_DEPTH, mode=Mode.SUBTRACT)

    # Sketch75 → Boss-Extrude33 (add)
    with BuildSketch(Plane(origin=(0, 40.000499988, 40.001499975), x_dir=(1, 0, 0), z_dir=(0, 0.707097943, 0.70711562))):
        with Locations((10, -28.284271254)):
            Rectangle(SKETCH75_W, SKETCH75_H)
    extrude(amount=-BOSS_EXTRUDE33_DEPTH)

    # Sketch77 → Cut-Extrude69 (cut)
    with BuildSketch(Plane.ZY):
        Polygon((77.172608229, 0), (80.001, 0), (78.586768761, -1.414195885), align=None)
    extrude(amount=-CUT_EXTRUDE69_DEPTH, mode=Mode.SUBTRACT)

    # Sketch78 → Cut-Extrude70 (cut)
    with BuildSketch(Plane(origin=(0, 0, 40), x_dir=(-1, 0, 0), z_dir=(0, 0, -1))):
        Polygon((0, 20), (-8.58676876, 37.173537521), (0, 37.173537521), align=None)
    extrude(amount=-CUT_EXTRUDE70_DEPTH, mode=Mode.SUBTRACT)

    # Sketch80 → Cut-Extrude72 (cut)
    with BuildSketch(Plane(origin=(0, 38.586304102, 38.587268736), x_dir=(-1, 0, 0), z_dir=(0, -0.707097943, -0.70711562))):
        Polygon((-9.293152051, 0), (0, 0), (0, -1.997928687), (-8.58676876, -1.997928687), align=None)
    extrude(amount=-CUT_EXTRUDE72_DEPTH, mode=Mode.SUBTRACT)

    # Sketch81 → Cut-Extrude73 (cut)
    with BuildSketch(Plane.XZ.offset(-37.173537521)):
        with Locations((4.29338438, 41.414195885)):
            Rectangle(SKETCH81_W, SKETCH81_H)
    extrude(amount=-CUT_EXTRUDE73_DEPTH, mode=Mode.SUBTRACT)

    # Sketch82 → Cut-Extrude76 (cut)
    with BuildSketch(Plane(origin=(-8, 4, 0), x_dir=(0, 0, 1), z_dir=(-0.894427191, 0.447213595, 0))):
        with Locations((38.699840788, 41.014077253)):
            Rectangle(SKETCH82_W, SKETCH82_H)
    extrude(amount=CUT_EXTRUDE76_DEPTH, mode=Mode.SUBTRACT)

    # Sketch83 → Cut-Extrude77 (cut)
    with BuildSketch(Plane.ZY):
        Polygon((60.001499975, 20), (60.001499975, 0), (80.001, 0), align=None)
    extrude(amount=-CUT_EXTRUDE77_DEPTH, mode=Mode.SUBTRACT)

    # Sketch86 → Cut-Extrude82 (cut)
    with BuildSketch(Plane.XY.offset(40)):
        Polygon((80, 80), (120, 40), (40, 40), align=None)
    extrude(amount=-CUT_EXTRUDE82_DEPTH, mode=Mode.SUBTRACT)

    # Sketch87 → Cut-Extrude84 (cut)
    with BuildSketch(Plane(origin=(0, 0, 0), x_dir=(0, 0, -1), z_dir=(1, 0, 0))):
        Polygon((0, 20), (-25, 20), (0, 100), align=None)
    extrude(amount=CUT_EXTRUDE84_DEPTH, mode=Mode.SUBTRACT)

    # Sketch89 → Cut-Extrude85 (cut)
    with BuildSketch(Plane.ZY.offset(-39.999)):
        Polygon((0, 20), (25, 20), (0, 99.998), align=None)
    extrude(amount=-CUT_EXTRUDE85_DEPTH, mode=Mode.SUBTRACT)

    # Sketch90 → Boss-Extrude34 (add)
    with BuildSketch(Plane.ZY.offset(-39.9991)):
        Polygon((25, 20), (0, 99.998), (0, 20), align=None)
    extrude(amount=BOSS_EXTRUDE34_DEPTH)

    # Sketch91 → Cut-Extrude86 (cut)
    with BuildSketch(Plane.ZY.offset(-37.9991)):
        Polygon((0, 99.998), (0, 20), (25, 20), align=None)
    extrude(amount=-CUT_EXTRUDE86_DEPTH, mode=Mode.SUBTRACT)

    # Sketch95 → Cut-Extrude88 (cut)
    with BuildSketch(Plane(origin=(0, 0, 0), x_dir=(-1, 0, 0), z_dir=(0, 0, -1))):
        Polygon((-80, 100), (-80, 80), (-40, 40), (-50, 20), (0, 20), (-39.9991, 100), align=None)
    extrude(amount=-CUT_EXTRUDE88_DEPTH, mode=Mode.SUBTRACT)

    # Sketch96 → Boss-Extrude40 (add)
    with BuildSketch(Plane.XY.offset(40)):
        Polygon((40, 40), (120, 40), (100, 0), (60, 0), align=None)
    extrude(amount=BOSS_EXTRUDE40_DEPTH)

    # Sketch97 → Cut-Extrude89 (cut)
    with BuildSketch(Plane(origin=(0, 0, 56), x_dir=(-1, 0, 0), z_dir=(0, 0, -1))):
        Polygon((-20, 24.00160001), (-2.000800005, 24.00160001), (0, 20), (-20, 20), align=None)
    extrude(amount=-CUT_EXTRUDE89_DEPTH, mode=Mode.SUBTRACT)

    # Sketch98 → Boss-Extrude41 (add)
    with BuildSketch(Plane(origin=(0, 0, 0), x_dir=(-1, 0, 0), z_dir=(0, 0, -1))):
        Polygon((-80, 80), (-120, 40), (-40, 40), align=None)
    extrude(amount=-BOSS_EXTRUDE41_DEPTH)

    # Sketch99 → Boss-Extrude42 (add)
    with BuildSketch(Plane(origin=(0, 0, 0), x_dir=(-1, 0, 0), z_dir=(0, 0, -1))):
        Polygon((0, 20), (-40, 100), (-80, 100), (-80, 80), (-40, 40), (-50, 20), align=None)
    extrude(amount=-BOSS_EXTRUDE42_DEPTH)

    # Sketch100 → Boss-Extrude43 (add)
    with BuildSketch(Plane.ZY.offset(-20)):
        Polygon((60.001499975, 20), (60.001499975, 0), (80.001, 0), align=None)
    extrude(amount=BOSS_EXTRUDE43_DEPTH)

    # Sketch102 → Cut-Extrude90 (cut)
    with BuildSketch(Plane.ZY):
        with Locations((30.000749988, 10)):
            Rectangle(SKETCH102_W, SKETCH102_H)
    extrude(amount=-CUT_EXTRUDE90_DEPTH, mode=Mode.SUBTRACT)

    # Sketch103 → Boss-Extrude44 (add)
    with BuildSketch(Plane(origin=(0, 0, 0), x_dir=(-1, 0, 0), z_dir=(0, 0, -1))):
        Polygon((0, 20), (-20, 0), (-20, 20), align=None)
    extrude(amount=-BOSS_EXTRUDE44_DEPTH)

    # Sketch105 → Cut-Extrude91 (cut)
    with BuildSketch(Plane(origin=(80, 0, 0), x_dir=(0, 0, -1), z_dir=(1, 0, 0))):
        Polygon((-60, 80), (-40, 80), (-28, 100), (-50, 100), align=None)
    extrude(amount=-CUT_EXTRUDE91_DEPTH, mode=Mode.SUBTRACT)

    # Sketch106 → Cut-Extrude92 (cut)
    with BuildSketch(Plane.ZY.offset(-80)):
        Polygon((60, 80), (40, 80), (40, 40), (80, 40), align=None)
    extrude(amount=CUT_EXTRUDE92_DEPTH, mode=Mode.SUBTRACT)

    # Sketch107 → Cut-Extrude93 (cut)
    with BuildSketch(Plane.XY.offset(50)):
        Polygon((120, 40), (80, 40), (80, 80), align=None)
    extrude(amount=-CUT_EXTRUDE93_DEPTH, mode=Mode.SUBTRACT)

    # Sketch109 → Cut-Extrude96 (cut)
    with BuildSketch(Plane.XY.offset(60)):
        Polygon((50, 20), (50, 40), (40, 40), align=None)
    extrude(amount=-CUT_EXTRUDE96_DEPTH, mode=Mode.SUBTRACT)

    # Sketch111 → Cut-Extrude98 (cut)
    with BuildSketch(Plane.XY.offset(60)):
        Polygon((120, 40), (50, 40), (50, 20), (60, 0), (100, 0), align=None)
    extrude(amount=-CUT_EXTRUDE98_DEPTH, mode=Mode.SUBTRACT)

    # Sketch112 → Boss-Extrude45 (add)
    with BuildSketch(Plane(origin=(0, 0, 0), x_dir=(0, 0, -1), z_dir=(1, 0, 0))):
        Polygon((-60, 20), (-40, 39.999500025), (-40, 20), align=None)
    extrude(amount=BOSS_EXTRUDE45_DEPTH)

    # Sketch113 → Cut-Extrude99 (cut)
    with BuildSketch(Plane(origin=(0, 0, 40), x_dir=(-1, 0, 0), z_dir=(0, 0, -1))):
        Polygon((-9.999750012, 39.999500025), (0, 39.999500025), (0, 20), align=None)
    extrude(amount=-CUT_EXTRUDE99_DEPTH, mode=Mode.SUBTRACT)

    # Sketch114 → Cut-Extrude100 (cut)
    with BuildSketch(Plane(origin=(20, 0, 0), x_dir=(0, 0, -1), z_dir=(1, 0, 0))):
        Polygon((-40, 39.999500025), (-60.001499975, 20), (-40, 20), align=None)
    extrude(amount=-CUT_EXTRUDE100_DEPTH, mode=Mode.SUBTRACT)

    # Sketch115 → Cut-Extrude101 (cut)
    with BuildSketch(Plane.XY.offset(40)):
        Polygon((80, 80), (120, 40), (40, 40), align=None)
    extrude(amount=-CUT_EXTRUDE101_DEPTH, mode=Mode.SUBTRACT)

    # Sketch117 → Cut-Extrude106 (cut)
    with BuildSketch(Plane(origin=(0, 0, 0), x_dir=(0, 0, -1), z_dir=(1, 0, 0))):
        Polygon((0, 20), (-25, 20), (0, 100), align=None)
    extrude(amount=CUT_EXTRUDE106_DEPTH, mode=Mode.SUBTRACT)

    # Sketch118 → Cut-Extrude107 (cut)
    with BuildSketch(Plane.XY.offset(40)):
        Polygon((40, 40), (120, 40), (100, 0), (60, 0), align=None)
    extrude(amount=-CUT_EXTRUDE107_DEPTH, mode=Mode.SUBTRACT)


solid = part.part
